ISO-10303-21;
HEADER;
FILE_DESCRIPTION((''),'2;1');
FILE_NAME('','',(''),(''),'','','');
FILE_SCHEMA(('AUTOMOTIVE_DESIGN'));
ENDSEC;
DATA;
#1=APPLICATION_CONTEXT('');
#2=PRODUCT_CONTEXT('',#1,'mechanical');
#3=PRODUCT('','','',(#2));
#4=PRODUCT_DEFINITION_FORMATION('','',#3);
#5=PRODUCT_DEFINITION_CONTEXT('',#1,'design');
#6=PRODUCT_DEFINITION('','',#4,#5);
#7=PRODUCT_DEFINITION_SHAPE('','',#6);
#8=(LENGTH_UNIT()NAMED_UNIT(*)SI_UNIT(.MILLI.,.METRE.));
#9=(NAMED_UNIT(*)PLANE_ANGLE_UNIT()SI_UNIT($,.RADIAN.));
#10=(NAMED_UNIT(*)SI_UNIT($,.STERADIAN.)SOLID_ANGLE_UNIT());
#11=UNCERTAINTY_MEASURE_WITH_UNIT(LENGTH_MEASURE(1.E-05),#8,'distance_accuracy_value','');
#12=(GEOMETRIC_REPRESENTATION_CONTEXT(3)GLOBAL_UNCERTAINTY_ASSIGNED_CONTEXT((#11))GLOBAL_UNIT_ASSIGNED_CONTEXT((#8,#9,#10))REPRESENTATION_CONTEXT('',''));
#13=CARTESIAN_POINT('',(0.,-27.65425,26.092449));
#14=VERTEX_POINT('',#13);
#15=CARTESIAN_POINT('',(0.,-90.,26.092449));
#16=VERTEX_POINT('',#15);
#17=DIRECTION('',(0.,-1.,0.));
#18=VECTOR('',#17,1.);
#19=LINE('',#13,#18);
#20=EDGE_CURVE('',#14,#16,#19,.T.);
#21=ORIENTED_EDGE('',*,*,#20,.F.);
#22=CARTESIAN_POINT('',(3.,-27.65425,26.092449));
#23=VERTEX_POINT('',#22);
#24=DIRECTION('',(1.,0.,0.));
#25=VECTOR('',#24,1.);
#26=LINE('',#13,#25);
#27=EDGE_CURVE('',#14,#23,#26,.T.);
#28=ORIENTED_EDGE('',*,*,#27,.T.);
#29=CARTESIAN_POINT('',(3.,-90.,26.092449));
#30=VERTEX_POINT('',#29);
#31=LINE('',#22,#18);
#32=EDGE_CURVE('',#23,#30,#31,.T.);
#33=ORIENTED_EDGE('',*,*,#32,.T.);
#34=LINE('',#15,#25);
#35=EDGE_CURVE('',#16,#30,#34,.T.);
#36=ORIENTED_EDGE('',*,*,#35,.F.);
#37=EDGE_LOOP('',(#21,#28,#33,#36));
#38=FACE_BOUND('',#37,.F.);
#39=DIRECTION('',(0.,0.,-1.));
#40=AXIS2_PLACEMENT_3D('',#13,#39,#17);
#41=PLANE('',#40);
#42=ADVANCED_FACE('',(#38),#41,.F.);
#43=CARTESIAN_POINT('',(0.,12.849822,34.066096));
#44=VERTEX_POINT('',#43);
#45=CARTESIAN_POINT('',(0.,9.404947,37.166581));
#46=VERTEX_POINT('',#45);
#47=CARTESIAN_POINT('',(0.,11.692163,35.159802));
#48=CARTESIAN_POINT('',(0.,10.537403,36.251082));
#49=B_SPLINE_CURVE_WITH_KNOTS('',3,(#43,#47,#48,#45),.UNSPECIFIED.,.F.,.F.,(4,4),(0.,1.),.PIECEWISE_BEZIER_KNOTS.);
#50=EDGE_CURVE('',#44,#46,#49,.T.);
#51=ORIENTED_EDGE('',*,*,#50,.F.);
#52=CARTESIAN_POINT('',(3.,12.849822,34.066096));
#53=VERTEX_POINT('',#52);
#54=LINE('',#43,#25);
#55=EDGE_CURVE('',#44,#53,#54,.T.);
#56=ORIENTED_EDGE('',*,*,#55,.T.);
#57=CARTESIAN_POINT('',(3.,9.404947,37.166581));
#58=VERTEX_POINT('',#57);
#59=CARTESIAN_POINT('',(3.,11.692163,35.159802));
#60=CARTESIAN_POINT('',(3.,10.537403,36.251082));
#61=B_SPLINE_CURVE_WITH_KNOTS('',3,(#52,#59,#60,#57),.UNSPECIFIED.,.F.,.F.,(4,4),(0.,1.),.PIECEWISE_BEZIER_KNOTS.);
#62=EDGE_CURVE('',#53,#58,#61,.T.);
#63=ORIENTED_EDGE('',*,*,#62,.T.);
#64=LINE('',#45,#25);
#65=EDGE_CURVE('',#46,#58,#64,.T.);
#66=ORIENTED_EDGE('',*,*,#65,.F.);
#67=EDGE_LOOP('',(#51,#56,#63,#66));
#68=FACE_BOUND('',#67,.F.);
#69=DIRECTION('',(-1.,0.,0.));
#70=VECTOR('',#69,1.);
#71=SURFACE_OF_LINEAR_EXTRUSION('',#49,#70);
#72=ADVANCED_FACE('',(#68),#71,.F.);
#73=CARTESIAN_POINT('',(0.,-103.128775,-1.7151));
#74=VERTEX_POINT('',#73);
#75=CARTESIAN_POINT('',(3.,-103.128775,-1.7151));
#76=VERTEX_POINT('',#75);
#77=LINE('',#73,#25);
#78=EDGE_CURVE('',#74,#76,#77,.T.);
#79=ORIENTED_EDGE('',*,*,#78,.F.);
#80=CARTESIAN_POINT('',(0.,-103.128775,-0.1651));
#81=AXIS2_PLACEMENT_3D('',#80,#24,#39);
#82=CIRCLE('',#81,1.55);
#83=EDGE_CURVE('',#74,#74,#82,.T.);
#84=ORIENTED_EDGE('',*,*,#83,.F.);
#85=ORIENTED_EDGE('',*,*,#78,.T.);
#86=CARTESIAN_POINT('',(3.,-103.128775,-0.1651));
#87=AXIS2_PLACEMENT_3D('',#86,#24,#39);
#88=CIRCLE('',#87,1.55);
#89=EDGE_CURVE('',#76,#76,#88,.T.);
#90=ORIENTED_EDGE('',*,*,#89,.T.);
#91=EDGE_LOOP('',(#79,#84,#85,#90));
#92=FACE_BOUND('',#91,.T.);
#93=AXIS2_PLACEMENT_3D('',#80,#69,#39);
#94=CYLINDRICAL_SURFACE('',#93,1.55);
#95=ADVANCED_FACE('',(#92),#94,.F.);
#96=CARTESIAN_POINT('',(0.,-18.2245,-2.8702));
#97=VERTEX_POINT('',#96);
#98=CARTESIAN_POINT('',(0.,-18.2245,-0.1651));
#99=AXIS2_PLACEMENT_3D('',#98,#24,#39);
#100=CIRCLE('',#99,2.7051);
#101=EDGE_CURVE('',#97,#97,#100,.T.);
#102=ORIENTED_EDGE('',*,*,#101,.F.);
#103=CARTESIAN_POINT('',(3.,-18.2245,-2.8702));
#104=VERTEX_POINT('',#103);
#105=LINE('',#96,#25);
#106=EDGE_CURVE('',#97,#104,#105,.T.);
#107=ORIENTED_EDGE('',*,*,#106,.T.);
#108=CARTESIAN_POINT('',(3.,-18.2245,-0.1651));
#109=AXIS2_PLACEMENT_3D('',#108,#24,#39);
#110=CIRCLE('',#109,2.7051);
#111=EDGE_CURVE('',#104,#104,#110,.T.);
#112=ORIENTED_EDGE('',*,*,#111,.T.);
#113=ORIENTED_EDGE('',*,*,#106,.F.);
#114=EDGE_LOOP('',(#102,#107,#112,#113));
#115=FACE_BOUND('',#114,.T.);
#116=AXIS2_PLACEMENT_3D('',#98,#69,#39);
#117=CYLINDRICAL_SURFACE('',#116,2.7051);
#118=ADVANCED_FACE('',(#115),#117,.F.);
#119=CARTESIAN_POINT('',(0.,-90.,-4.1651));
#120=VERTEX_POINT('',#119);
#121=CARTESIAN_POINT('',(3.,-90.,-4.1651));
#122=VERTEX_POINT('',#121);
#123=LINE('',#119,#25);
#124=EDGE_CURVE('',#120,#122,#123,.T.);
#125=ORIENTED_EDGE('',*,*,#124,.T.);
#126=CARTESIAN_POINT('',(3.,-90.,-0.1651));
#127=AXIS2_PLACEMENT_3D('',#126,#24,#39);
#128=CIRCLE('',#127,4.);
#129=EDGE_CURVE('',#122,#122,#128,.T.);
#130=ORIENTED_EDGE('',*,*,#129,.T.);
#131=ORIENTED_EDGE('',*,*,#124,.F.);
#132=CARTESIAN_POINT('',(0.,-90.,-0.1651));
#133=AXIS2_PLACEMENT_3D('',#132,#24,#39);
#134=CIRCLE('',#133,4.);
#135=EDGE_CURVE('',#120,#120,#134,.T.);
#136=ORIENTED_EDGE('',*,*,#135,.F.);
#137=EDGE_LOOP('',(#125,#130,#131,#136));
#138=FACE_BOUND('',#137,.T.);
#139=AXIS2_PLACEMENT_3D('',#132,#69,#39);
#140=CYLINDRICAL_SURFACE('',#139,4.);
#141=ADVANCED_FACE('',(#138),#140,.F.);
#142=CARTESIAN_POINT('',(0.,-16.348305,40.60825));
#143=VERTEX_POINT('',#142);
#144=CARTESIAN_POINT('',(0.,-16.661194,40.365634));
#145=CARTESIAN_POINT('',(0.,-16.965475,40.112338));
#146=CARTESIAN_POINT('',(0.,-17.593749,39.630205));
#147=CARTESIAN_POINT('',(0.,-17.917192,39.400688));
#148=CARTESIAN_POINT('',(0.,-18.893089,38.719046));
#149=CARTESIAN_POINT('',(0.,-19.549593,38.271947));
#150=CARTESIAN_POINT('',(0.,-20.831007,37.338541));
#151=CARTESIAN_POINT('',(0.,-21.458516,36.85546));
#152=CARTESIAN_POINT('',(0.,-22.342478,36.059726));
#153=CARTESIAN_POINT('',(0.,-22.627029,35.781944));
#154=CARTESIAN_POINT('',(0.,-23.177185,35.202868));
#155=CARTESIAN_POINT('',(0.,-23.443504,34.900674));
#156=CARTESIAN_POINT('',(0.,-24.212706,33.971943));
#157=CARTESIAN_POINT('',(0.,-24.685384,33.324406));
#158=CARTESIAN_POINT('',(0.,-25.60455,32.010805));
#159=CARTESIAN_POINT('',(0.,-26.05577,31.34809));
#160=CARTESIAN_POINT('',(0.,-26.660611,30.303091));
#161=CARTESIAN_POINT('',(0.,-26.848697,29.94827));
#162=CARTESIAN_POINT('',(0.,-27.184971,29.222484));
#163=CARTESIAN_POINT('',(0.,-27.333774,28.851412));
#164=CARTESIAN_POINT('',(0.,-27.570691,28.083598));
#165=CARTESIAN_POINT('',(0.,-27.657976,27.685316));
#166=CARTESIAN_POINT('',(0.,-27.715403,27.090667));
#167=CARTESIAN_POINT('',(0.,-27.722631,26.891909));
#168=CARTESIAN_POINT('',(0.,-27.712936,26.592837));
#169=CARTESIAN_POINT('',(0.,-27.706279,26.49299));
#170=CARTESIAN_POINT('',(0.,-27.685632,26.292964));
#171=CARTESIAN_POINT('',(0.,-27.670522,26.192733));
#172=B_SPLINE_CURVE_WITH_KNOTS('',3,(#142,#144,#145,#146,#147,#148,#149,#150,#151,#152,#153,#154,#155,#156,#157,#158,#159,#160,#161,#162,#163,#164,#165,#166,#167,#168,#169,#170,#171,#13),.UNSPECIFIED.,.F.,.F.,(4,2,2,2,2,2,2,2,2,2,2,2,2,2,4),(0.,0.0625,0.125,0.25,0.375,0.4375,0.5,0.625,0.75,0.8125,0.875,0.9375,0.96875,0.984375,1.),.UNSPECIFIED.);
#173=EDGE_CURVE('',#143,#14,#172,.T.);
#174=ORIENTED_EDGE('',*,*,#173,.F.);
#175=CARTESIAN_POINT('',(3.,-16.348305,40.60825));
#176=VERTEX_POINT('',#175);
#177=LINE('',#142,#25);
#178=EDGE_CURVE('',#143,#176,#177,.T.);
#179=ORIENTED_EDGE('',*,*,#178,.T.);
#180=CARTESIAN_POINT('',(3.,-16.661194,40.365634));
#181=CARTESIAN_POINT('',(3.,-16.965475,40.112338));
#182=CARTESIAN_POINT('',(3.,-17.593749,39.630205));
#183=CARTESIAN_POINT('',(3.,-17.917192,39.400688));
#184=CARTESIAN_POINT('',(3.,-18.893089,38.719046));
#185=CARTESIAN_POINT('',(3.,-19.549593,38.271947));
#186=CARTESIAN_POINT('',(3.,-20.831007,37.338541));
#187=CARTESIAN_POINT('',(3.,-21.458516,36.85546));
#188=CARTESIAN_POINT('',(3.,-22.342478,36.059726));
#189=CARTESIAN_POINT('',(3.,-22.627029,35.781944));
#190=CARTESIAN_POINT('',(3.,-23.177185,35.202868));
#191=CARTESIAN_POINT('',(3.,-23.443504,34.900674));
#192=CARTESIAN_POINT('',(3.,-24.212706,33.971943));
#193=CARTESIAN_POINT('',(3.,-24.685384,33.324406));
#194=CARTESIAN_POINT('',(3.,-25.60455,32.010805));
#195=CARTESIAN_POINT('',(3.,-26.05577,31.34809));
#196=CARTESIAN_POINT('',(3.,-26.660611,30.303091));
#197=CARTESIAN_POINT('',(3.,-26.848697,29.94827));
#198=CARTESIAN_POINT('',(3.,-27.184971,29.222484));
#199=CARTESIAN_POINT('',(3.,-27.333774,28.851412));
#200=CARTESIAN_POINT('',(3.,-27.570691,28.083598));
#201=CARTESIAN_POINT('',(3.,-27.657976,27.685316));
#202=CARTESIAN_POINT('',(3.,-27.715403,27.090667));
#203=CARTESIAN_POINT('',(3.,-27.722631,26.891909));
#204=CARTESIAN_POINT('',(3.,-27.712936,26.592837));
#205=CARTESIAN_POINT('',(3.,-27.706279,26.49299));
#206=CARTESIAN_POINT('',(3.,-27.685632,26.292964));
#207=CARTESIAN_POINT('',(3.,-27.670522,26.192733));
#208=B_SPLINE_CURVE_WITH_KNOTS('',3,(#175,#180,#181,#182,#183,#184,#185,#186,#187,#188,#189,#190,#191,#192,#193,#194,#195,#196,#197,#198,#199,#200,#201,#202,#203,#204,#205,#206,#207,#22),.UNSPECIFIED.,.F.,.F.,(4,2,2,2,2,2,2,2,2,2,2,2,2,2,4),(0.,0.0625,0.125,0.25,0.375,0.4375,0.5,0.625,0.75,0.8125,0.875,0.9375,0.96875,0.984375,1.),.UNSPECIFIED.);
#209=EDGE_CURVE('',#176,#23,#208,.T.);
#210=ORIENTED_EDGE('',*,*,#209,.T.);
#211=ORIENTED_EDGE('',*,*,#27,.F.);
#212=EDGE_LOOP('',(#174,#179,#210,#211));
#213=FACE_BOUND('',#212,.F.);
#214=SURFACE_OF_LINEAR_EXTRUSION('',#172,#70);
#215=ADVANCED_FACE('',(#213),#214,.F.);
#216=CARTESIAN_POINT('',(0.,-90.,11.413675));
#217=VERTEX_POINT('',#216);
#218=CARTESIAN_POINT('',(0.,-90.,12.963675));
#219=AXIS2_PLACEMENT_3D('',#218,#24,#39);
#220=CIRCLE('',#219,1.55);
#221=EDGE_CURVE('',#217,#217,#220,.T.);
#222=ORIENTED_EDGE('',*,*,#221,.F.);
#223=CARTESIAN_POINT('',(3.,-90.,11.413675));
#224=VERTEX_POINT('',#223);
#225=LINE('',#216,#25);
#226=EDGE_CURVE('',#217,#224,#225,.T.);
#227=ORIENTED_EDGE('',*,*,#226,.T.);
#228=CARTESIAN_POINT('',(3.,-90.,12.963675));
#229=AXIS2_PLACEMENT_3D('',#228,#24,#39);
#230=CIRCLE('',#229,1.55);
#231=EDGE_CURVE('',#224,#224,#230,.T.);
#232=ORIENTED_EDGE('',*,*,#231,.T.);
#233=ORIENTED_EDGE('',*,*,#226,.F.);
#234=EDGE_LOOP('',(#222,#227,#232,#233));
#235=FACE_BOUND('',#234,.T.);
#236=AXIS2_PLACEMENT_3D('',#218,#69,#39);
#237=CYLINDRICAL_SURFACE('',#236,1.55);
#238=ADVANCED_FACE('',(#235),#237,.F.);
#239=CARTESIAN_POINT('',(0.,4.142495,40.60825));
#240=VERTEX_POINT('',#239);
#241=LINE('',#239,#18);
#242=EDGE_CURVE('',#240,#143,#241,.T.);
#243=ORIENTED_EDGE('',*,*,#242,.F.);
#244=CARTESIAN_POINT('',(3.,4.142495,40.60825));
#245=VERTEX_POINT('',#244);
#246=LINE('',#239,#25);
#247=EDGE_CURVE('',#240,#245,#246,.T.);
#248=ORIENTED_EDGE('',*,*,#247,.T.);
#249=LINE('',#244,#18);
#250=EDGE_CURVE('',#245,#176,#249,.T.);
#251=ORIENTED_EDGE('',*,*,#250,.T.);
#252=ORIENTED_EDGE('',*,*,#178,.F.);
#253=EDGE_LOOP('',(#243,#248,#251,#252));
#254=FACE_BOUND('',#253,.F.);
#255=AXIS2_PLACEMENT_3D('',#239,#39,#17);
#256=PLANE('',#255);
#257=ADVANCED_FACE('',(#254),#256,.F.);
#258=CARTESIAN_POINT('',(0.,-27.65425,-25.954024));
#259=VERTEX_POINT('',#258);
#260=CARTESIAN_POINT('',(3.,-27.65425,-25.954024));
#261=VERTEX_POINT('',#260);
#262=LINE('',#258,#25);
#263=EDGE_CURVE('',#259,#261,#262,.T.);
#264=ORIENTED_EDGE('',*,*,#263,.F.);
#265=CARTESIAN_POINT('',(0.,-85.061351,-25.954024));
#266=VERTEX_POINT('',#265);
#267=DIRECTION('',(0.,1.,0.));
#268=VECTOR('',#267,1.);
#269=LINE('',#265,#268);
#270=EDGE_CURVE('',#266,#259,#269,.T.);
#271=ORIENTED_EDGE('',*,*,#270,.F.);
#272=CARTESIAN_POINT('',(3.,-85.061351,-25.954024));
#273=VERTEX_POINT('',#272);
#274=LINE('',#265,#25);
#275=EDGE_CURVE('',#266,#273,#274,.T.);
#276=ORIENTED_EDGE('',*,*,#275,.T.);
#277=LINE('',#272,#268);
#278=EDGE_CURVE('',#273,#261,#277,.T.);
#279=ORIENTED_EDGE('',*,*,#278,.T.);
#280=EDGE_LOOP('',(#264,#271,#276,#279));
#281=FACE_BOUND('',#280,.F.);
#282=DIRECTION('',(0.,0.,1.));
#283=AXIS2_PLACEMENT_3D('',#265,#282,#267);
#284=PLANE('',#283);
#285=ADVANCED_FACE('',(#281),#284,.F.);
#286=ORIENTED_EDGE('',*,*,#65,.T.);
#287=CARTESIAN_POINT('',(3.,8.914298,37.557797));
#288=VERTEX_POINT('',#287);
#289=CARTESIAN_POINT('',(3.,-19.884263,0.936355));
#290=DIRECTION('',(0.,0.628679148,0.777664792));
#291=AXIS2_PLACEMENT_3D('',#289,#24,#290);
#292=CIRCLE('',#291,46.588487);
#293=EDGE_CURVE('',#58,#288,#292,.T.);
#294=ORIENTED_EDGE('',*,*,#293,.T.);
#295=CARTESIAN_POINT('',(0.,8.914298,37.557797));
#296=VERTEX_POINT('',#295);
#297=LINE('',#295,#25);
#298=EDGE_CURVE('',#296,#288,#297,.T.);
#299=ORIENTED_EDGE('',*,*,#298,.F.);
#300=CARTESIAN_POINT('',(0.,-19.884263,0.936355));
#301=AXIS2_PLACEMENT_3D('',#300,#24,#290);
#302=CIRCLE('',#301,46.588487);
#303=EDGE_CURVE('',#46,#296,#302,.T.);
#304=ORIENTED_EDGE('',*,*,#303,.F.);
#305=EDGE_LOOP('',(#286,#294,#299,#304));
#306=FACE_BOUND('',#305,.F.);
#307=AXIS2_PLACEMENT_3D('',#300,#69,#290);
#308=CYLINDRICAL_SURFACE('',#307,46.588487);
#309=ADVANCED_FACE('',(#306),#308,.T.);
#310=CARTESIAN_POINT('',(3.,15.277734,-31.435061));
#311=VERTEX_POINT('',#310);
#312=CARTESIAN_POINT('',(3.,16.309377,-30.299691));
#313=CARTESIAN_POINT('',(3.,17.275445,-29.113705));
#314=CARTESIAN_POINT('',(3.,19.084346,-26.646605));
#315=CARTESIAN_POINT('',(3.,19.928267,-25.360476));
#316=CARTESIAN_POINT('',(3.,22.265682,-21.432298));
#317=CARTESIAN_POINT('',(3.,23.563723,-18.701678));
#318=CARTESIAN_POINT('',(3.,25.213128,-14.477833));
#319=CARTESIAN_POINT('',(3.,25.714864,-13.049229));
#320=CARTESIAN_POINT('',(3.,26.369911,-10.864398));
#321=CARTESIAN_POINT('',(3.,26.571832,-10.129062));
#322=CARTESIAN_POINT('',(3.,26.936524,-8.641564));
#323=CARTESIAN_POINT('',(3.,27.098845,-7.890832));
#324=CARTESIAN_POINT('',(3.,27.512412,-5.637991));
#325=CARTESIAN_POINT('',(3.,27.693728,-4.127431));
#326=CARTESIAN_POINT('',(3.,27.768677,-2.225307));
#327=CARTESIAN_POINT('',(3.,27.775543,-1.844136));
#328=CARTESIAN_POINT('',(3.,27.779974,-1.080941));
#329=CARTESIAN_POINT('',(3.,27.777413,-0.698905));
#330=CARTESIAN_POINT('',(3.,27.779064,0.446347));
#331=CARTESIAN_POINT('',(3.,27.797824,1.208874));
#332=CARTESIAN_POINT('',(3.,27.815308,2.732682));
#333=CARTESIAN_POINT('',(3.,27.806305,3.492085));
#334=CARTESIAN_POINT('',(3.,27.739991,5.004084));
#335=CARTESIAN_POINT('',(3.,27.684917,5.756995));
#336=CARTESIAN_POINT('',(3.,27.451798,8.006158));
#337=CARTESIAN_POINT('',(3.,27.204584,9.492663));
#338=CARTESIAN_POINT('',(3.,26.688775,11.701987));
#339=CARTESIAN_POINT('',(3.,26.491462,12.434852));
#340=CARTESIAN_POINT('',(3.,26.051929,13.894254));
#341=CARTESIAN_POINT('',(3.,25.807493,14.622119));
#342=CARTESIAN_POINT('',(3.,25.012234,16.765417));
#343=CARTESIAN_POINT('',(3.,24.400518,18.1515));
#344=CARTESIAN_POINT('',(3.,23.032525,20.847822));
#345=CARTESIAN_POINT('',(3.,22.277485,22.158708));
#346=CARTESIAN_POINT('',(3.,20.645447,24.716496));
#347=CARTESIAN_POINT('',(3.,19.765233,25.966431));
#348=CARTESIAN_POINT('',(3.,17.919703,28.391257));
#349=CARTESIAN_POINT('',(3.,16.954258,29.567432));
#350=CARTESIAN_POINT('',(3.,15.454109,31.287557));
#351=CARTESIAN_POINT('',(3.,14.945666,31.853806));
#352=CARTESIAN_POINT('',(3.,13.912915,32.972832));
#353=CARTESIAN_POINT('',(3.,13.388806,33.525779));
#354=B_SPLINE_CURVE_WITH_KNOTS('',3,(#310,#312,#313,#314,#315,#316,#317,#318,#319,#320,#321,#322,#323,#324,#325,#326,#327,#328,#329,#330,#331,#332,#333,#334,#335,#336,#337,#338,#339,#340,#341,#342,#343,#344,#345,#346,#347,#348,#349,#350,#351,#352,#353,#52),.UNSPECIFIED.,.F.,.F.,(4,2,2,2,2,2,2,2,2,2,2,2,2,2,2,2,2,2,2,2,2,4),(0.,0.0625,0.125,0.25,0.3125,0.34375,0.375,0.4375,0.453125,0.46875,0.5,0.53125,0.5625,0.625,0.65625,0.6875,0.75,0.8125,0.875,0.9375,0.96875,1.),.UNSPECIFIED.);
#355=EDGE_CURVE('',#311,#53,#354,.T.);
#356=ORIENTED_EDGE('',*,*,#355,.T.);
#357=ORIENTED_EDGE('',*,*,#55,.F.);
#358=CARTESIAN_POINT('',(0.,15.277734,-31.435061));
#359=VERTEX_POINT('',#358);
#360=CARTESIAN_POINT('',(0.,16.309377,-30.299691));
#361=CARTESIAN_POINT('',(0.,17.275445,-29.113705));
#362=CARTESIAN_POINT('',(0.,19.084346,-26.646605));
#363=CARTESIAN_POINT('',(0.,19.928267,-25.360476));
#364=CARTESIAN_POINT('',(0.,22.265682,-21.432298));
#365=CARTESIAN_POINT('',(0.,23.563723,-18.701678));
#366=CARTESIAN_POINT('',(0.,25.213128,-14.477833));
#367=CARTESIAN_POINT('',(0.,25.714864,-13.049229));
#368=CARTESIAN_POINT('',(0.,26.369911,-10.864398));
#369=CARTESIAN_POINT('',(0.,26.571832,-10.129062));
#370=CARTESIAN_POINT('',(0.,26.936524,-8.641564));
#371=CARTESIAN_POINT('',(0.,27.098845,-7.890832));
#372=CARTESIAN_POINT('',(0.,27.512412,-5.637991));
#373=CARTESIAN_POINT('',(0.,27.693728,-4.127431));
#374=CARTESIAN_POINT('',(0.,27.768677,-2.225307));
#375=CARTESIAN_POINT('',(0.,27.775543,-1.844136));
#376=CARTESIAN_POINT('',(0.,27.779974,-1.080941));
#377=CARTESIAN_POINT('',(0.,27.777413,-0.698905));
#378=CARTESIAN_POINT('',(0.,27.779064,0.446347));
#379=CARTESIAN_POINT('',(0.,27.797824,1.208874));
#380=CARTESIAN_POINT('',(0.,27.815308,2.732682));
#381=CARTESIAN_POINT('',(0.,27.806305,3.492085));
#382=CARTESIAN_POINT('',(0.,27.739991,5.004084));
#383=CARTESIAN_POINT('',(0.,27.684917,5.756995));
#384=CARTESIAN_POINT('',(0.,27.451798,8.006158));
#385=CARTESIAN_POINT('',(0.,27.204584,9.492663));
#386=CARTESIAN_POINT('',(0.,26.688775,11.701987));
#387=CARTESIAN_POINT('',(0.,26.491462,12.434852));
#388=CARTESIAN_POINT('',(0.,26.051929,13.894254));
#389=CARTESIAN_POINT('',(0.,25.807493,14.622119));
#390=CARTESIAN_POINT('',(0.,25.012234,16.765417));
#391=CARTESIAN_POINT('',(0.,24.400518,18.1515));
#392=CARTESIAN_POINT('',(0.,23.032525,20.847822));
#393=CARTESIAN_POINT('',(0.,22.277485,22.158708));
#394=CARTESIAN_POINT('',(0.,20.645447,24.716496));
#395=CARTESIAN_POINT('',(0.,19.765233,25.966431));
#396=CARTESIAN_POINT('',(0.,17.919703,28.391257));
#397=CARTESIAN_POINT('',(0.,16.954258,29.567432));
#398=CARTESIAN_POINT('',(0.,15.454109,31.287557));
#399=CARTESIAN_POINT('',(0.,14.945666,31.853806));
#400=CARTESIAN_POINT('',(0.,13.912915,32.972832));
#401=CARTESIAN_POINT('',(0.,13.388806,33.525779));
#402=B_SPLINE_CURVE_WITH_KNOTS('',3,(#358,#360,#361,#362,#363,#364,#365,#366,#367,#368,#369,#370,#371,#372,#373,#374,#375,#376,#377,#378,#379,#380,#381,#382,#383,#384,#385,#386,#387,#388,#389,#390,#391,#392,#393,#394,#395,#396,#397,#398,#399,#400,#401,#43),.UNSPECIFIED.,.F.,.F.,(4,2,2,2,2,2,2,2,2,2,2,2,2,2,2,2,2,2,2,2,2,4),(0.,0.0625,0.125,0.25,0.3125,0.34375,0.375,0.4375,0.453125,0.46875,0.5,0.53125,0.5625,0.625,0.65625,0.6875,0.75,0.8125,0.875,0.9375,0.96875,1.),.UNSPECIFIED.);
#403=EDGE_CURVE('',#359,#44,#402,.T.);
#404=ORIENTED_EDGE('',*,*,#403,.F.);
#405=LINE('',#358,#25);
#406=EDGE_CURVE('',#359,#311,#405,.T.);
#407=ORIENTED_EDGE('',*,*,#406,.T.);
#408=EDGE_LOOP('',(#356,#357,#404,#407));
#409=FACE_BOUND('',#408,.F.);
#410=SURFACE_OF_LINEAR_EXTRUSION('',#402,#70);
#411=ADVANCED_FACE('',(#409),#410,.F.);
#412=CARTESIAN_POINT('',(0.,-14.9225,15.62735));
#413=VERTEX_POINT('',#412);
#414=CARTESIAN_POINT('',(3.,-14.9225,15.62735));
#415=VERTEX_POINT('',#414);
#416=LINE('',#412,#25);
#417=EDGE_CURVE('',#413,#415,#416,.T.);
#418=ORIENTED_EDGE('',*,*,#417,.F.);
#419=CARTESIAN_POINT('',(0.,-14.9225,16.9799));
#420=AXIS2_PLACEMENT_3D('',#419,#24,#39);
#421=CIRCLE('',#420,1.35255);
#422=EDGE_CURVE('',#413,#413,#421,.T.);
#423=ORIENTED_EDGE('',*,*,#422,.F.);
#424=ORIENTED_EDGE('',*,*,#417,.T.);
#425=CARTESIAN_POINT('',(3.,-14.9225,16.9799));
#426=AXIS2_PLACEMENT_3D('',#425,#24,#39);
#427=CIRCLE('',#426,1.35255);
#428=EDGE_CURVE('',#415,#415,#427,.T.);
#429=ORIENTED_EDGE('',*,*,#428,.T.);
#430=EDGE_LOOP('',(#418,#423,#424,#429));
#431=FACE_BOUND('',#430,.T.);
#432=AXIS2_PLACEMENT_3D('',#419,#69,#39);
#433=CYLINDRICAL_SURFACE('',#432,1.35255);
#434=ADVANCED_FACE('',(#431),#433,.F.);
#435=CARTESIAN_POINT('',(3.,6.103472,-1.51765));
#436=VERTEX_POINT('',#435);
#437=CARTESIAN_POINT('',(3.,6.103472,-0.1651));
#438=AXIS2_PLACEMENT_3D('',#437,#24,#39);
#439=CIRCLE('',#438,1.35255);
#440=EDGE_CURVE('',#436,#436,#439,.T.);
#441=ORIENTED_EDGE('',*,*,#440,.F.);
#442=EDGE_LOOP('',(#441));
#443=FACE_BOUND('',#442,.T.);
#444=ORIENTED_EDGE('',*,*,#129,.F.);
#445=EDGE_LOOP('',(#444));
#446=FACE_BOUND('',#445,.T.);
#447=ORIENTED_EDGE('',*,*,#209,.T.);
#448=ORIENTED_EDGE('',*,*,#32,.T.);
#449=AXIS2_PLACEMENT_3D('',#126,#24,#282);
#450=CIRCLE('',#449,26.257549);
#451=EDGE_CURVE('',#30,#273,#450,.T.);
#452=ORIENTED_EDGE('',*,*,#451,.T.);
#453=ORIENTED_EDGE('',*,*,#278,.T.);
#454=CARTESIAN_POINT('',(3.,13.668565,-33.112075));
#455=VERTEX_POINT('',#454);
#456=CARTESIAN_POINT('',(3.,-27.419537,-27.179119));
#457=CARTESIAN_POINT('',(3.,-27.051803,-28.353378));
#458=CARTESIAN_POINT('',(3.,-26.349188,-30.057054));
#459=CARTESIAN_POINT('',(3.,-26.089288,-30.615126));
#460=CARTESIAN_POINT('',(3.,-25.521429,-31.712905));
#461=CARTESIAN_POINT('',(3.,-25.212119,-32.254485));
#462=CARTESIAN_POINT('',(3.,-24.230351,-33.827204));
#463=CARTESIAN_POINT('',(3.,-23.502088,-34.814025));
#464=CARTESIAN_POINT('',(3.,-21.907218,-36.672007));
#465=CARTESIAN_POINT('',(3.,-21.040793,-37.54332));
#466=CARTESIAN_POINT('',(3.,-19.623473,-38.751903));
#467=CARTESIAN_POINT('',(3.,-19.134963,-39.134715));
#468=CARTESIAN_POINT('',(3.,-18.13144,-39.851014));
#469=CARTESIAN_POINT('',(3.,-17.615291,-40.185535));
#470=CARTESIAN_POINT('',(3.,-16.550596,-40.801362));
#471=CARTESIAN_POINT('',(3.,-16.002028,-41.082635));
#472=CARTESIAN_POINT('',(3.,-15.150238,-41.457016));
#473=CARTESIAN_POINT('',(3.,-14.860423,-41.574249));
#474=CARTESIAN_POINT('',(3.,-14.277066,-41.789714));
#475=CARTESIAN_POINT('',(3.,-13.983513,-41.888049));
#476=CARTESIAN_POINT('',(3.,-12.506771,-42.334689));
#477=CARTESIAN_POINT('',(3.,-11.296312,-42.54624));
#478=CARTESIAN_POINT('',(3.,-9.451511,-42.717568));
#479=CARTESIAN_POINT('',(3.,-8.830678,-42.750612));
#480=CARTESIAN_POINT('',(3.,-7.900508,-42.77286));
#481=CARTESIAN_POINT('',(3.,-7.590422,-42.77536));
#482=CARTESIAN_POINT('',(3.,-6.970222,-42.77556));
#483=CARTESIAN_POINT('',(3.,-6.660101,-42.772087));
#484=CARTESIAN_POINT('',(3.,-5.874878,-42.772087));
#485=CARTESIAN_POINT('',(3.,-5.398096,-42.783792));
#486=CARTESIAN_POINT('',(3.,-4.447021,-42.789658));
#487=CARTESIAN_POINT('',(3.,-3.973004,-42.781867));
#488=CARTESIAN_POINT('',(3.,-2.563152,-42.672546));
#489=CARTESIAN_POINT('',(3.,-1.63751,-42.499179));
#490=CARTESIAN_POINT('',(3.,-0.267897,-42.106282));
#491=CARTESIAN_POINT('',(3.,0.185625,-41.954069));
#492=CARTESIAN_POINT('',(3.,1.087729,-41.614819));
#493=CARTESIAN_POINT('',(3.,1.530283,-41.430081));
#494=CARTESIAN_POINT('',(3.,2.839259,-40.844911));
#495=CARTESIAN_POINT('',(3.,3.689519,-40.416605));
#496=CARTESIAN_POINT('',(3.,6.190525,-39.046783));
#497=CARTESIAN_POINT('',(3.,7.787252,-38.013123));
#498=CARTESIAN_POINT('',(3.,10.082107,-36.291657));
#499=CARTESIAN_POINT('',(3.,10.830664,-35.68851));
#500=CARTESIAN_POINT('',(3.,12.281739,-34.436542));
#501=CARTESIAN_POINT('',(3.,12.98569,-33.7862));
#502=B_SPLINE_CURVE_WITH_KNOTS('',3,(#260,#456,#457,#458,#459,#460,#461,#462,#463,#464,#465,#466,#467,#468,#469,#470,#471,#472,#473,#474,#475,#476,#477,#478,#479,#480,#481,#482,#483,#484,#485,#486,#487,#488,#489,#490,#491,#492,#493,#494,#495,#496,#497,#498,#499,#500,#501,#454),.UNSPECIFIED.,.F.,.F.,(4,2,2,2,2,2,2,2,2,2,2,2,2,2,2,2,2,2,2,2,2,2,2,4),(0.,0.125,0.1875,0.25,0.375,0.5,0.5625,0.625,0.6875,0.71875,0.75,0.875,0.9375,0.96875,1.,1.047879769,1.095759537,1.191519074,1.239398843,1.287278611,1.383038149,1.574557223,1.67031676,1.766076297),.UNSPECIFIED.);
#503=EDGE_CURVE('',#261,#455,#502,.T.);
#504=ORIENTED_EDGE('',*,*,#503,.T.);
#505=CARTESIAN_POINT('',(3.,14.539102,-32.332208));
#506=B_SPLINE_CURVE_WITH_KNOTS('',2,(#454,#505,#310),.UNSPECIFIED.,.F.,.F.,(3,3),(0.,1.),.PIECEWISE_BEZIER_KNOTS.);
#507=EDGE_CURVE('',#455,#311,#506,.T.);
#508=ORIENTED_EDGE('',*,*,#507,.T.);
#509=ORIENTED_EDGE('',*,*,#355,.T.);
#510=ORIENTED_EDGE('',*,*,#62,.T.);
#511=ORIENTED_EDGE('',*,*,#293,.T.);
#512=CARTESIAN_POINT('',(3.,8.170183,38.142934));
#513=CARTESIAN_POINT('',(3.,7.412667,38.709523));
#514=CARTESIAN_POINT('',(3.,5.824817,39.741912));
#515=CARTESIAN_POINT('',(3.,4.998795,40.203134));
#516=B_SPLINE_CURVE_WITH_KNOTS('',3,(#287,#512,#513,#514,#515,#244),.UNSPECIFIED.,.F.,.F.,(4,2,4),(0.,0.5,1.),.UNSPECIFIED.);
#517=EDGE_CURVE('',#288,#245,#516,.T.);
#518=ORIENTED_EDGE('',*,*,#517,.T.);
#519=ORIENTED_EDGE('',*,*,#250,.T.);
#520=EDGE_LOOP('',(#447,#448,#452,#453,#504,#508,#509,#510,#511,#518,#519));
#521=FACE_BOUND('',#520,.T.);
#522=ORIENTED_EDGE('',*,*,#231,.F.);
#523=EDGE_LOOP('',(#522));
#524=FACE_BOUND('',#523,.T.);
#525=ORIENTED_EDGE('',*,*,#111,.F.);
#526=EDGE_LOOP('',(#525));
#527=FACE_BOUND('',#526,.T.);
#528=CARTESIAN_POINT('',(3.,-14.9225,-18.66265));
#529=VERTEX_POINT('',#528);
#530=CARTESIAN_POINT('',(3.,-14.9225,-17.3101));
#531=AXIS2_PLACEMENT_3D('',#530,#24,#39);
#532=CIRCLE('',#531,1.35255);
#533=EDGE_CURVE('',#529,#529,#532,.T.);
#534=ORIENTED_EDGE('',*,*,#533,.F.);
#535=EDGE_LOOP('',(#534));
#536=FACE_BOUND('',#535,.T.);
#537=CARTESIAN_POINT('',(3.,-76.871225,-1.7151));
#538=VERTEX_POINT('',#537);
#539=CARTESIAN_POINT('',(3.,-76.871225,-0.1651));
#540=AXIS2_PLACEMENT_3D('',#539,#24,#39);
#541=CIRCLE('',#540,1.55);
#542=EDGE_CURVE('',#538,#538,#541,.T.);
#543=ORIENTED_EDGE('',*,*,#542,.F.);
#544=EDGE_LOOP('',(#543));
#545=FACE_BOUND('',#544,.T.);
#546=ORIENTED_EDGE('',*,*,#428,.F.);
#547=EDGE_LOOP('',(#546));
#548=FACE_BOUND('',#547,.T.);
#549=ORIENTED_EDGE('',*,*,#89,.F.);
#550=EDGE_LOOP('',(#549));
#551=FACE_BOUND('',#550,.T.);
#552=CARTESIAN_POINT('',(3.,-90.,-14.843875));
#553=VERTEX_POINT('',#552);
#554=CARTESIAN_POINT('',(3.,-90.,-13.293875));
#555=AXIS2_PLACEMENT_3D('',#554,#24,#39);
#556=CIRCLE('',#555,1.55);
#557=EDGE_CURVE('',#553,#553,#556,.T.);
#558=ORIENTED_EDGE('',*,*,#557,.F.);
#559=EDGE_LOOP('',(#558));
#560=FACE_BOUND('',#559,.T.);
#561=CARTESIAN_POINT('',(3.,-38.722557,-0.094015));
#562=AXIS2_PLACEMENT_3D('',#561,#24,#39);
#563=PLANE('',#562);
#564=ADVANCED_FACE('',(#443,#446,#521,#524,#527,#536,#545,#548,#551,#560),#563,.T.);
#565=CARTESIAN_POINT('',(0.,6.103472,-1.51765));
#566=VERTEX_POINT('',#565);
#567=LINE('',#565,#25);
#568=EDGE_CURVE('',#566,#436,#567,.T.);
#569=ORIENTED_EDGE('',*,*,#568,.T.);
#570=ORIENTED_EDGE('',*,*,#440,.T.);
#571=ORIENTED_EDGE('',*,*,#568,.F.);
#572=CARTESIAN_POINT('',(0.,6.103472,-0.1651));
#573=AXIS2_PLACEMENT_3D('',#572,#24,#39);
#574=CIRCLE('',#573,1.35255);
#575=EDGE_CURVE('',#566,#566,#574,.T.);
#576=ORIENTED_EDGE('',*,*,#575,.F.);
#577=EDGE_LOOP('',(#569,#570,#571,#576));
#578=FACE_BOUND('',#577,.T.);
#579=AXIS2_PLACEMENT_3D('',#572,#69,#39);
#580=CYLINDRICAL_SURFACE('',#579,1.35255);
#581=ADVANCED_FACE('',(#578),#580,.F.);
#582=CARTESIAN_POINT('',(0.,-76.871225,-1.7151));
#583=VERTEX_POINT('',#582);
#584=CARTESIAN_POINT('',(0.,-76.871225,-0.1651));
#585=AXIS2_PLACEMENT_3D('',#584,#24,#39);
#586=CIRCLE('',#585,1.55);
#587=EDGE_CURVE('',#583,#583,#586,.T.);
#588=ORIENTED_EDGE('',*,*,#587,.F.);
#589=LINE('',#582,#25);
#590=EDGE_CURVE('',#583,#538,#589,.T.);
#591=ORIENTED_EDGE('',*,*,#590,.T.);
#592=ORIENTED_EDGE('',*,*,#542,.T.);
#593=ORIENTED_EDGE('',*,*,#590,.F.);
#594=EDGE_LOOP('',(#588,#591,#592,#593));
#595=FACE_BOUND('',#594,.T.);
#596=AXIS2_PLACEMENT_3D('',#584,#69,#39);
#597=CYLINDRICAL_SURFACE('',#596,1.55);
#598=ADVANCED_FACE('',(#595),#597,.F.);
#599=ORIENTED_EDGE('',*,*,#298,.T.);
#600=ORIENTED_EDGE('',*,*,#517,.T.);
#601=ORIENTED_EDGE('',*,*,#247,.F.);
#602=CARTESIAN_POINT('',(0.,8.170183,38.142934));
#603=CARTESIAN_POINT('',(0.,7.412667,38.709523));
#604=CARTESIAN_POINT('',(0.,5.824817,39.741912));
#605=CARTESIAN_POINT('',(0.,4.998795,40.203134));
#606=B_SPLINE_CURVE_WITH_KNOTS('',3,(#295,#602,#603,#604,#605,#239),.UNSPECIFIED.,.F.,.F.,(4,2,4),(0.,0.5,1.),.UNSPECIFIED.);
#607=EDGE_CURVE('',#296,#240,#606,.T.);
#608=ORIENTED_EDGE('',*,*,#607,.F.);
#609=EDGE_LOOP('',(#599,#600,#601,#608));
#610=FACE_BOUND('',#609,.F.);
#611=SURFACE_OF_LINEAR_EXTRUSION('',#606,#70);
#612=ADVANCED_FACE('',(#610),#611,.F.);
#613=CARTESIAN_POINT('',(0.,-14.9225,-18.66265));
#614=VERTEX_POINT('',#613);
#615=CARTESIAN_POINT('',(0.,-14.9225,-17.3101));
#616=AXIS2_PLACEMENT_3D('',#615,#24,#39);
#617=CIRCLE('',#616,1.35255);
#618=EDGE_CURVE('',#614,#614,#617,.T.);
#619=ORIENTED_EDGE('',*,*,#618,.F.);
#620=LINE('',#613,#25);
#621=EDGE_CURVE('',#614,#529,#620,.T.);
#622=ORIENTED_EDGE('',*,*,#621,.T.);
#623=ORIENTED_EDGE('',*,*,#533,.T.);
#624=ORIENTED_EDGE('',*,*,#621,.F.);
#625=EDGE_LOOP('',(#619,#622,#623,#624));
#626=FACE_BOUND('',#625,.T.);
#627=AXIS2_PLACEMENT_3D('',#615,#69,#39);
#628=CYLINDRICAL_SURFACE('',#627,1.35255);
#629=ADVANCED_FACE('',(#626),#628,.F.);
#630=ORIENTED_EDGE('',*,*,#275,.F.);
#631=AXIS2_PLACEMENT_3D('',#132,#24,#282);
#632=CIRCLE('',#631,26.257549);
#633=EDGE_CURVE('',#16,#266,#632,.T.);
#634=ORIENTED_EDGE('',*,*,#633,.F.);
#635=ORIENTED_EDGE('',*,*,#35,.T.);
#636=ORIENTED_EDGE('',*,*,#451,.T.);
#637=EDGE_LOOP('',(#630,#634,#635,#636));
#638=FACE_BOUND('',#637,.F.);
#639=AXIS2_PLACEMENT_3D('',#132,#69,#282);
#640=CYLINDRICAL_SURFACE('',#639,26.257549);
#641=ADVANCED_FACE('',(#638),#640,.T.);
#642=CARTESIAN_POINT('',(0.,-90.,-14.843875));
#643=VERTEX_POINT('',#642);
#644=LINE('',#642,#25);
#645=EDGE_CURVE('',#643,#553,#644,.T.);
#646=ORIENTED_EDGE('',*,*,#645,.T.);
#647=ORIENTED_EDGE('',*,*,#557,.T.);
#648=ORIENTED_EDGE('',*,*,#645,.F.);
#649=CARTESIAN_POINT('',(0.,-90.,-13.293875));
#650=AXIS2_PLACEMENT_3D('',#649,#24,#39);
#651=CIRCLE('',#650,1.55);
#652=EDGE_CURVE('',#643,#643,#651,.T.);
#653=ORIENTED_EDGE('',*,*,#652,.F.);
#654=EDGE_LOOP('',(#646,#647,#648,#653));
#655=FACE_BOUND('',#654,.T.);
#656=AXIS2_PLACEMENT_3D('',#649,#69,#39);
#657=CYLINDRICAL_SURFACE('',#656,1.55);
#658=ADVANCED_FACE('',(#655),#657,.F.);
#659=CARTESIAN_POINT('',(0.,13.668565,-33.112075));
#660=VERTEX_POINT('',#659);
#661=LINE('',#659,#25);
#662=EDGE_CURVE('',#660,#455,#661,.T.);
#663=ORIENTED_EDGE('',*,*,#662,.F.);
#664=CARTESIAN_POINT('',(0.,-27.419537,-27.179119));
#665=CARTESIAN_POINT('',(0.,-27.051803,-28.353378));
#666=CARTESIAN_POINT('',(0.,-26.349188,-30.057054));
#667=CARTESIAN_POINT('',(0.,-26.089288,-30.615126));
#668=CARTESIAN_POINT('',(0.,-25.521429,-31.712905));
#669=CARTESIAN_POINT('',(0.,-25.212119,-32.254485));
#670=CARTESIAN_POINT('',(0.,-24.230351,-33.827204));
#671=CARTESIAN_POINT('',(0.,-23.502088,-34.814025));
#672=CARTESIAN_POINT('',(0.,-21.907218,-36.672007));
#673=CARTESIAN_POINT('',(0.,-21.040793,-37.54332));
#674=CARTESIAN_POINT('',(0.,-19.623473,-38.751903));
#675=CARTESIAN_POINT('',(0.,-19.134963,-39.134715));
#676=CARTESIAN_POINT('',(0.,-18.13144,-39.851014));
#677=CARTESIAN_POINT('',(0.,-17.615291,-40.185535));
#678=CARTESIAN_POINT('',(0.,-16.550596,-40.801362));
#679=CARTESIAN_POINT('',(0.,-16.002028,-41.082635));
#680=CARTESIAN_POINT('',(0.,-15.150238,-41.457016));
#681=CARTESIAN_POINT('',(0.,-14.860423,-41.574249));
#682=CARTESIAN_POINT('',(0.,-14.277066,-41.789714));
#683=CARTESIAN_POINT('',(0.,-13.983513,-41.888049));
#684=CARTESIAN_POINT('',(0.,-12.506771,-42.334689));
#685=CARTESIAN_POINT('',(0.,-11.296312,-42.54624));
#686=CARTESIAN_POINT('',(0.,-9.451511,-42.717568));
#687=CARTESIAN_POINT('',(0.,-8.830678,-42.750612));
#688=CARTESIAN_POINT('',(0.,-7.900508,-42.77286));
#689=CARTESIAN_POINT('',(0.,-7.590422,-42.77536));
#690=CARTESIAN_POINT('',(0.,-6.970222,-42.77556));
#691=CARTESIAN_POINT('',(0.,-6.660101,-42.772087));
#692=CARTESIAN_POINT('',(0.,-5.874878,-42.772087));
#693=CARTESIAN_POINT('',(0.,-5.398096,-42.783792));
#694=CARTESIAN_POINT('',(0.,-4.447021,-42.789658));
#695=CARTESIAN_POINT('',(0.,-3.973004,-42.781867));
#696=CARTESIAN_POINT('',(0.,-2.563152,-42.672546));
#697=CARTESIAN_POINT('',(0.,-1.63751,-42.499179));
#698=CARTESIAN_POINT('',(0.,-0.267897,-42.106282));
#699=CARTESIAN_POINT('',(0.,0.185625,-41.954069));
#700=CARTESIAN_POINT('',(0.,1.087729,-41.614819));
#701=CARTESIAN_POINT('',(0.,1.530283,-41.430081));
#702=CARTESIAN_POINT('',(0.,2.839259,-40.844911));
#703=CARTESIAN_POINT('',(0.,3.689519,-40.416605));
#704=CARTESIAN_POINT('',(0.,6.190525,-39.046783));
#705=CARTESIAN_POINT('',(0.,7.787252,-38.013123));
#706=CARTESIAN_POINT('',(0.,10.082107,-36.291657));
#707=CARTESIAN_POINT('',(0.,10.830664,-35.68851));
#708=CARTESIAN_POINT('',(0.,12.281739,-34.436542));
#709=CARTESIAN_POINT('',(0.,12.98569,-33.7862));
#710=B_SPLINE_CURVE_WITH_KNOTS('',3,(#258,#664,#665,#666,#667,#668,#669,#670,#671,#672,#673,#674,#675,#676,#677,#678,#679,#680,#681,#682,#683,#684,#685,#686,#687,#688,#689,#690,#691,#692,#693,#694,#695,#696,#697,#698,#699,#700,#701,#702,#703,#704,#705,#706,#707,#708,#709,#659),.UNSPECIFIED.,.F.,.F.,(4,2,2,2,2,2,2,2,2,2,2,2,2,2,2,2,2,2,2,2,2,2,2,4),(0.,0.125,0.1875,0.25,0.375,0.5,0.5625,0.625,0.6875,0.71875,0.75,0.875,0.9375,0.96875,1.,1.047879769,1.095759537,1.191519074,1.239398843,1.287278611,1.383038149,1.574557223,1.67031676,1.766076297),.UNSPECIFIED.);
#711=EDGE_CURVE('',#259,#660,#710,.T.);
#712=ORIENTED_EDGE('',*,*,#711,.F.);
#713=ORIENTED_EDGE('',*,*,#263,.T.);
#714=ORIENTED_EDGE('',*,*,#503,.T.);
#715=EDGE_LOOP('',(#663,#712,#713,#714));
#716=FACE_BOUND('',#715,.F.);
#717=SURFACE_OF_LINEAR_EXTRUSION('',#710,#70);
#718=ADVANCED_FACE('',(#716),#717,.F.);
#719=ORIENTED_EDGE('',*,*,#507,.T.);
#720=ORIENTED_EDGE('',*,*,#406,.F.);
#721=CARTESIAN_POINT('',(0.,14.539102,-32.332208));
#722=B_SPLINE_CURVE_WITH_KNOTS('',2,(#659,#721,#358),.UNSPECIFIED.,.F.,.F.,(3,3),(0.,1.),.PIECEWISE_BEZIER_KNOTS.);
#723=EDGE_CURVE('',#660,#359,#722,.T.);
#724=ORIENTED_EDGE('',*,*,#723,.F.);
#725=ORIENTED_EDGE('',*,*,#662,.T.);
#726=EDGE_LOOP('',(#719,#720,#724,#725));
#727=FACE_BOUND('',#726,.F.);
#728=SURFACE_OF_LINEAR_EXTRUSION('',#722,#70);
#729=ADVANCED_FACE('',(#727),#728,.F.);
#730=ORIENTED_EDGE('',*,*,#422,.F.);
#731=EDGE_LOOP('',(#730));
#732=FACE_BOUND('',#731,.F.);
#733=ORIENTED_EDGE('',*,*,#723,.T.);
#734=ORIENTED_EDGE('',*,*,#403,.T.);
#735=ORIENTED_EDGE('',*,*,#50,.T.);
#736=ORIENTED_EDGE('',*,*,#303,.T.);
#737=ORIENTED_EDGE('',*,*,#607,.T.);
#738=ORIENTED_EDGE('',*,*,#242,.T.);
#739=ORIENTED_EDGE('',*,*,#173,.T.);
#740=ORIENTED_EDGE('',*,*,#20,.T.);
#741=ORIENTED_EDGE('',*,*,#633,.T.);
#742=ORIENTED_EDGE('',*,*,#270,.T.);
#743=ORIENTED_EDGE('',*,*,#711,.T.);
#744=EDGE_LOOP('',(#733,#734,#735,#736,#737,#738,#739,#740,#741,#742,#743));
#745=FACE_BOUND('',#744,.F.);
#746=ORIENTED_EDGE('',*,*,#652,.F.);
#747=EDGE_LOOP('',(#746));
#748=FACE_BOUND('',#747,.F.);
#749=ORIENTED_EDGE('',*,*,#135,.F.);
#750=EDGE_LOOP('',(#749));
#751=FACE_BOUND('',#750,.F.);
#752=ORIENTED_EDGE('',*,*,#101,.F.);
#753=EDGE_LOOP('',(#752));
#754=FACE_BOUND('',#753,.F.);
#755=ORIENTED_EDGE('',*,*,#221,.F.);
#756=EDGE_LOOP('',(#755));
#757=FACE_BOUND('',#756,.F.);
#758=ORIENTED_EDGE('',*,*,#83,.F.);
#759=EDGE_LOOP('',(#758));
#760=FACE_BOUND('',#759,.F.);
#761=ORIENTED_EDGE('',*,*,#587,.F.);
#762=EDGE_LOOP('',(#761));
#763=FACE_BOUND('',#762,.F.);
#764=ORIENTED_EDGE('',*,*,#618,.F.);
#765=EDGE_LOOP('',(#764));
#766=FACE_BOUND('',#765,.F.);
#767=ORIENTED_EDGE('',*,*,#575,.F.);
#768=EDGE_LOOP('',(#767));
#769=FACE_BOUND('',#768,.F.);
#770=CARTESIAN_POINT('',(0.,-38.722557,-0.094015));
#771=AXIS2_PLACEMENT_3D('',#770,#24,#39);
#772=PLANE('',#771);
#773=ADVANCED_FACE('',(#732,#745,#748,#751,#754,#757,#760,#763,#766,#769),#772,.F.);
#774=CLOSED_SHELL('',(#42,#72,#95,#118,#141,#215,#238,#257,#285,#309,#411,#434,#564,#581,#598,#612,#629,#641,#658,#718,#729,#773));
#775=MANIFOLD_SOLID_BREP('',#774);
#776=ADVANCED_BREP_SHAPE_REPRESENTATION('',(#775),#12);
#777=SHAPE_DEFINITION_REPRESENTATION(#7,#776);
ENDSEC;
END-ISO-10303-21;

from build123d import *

# Parameters (mm, degrees)
ESQUISSE1_R        = 1.55
ESQUISSE1_R_2      = 4
ESQUISSE1_R_3      = 1.35255
ESQUISSE1_R_4      = 2.7051
BOSS_EXTRU_1_DEPTH = 3


with BuildPart() as part:
    # Esquisse1 → Boss.-Extru.1 (new body)
    with BuildSketch(Plane(origin=(0, 0, 0), x_dir=(0, 0, -1), z_dir=(1, 0, 0))):
        with BuildLine():
            Line((-40.60825, -12.7), (-40.60825, -16.144875))
            Line((-40.60825, -16.144875), (-40.60825, -16.348305132))
            add(Edge.make_bspline(
                [(-40.60825, -16.348305132), (-40.365634485, -16.661193605), (-40.112338127, -16.96547542), (-39.63020507, -17.593748723), (-39.400688032, -17.917191992), (-38.719045939, -18.893089111), (-38.271947044, -19.549593057), (-37.338540998, -20.831006808), (-36.855460104, -21.458516341), (-36.059725811, -22.342477591), (-35.781944124, -22.627029047), (-35.202868212, -23.17718548), (-34.900674383, -23.443503751), (-33.971943166, -24.212706181), (-33.324405882, -24.685383849), (-32.010805282, -25.604549776), (-31.348089528, -26.055770333), (-30.303090708, -26.660610546), (-29.948270215, -26.848696892), (-29.222483721, -27.184971005), (-28.851412004, -27.333773538), (-28.083597976, -27.570691368), (-27.685315555, -27.657976057), (-27.090666934, -27.715403346), (-26.891908645, -27.722631025), (-26.592836888, -27.712936491), (-26.492990431, -27.706278992), (-26.292963936, -27.685632014), (-26.192732932, -27.670522326), (-26.092449031, -27.65425)],
                knots=[0, 0, 0, 0, 0.0625, 0.0625, 0.125, 0.125, 0.25, 0.25, 0.375, 0.375, 0.4375, 0.4375, 0.5, 0.5, 0.625, 0.625, 0.75, 0.75, 0.8125, 0.8125, 0.875, 0.875, 0.9375, 0.9375, 0.96875, 0.96875, 0.984375, 0.984375, 1, 1, 1, 1], degree=3))
            Line((-26.092449031, -27.65425), (-26.092449031, -90))
            ThreePointArc((-26.092449031, -90), (2.64551669, -116.14013034), (25.954024412, -85.06135051))
            Line((25.954024412, -85.06135051), (25.954024412, -27.65425))
            add(Edge.make_bspline(
                [(25.954024412, -27.65425), (27.179118802, -27.419536533), (28.353377808, -27.051803075), (30.05705383, -26.34918771), (30.615126485, -26.089288473), (31.712904721, -25.521429223), (32.254485024, -25.212118815), (33.827204106, -24.230350536), (34.814025463, -23.502087852), (36.672007358, -21.907218093), (37.543320305, -21.040793316), (38.751902771, -19.623473398), (39.134714509, -19.134962989), (39.851014333, -18.131439591), (40.185535135, -17.615291382), (40.801362362, -16.550595558), (41.082635497, -16.002027673), (41.457015911, -15.150237789), (41.574249194, -14.86042264), (41.789713906, -14.277065554), (41.888049248, -13.98351322), (42.334688534, -12.506770959), (42.546239761, -11.296312151), (42.717568356, -9.451511475), (42.750611649, -8.83067761), (42.772859866, -7.900507946), (42.775360474, -7.590422151), (42.77555993, -6.970221998), (42.772087252, -6.66010067), (42.772087252, -6.35)],
                knots=[0, 0, 0, 0, 0.125, 0.125, 0.1875, 0.1875, 0.25, 0.25, 0.375, 0.375, 0.5, 0.5, 0.5625, 0.5625, 0.625, 0.625, 0.6875, 0.6875, 0.71875, 0.71875, 0.75, 0.75, 0.875, 0.875, 0.9375, 0.9375, 0.96875, 0.96875, 1, 1, 1, 1], degree=3))
            add(Edge.make_bspline(
                [(42.772087252, -6.35), (42.772087252, -5.874878454), (42.783792207, -5.398095979), (42.789657917, -4.447020546), (42.781867467, -3.973004463), (42.672546396, -2.563152451), (42.499179213, -1.637510108), (42.106282017, -0.267897459), (41.954068536, 0.185625042), (41.614819435, 1.087728793), (41.430081297, 1.530283034), (40.844911495, 2.839259084), (40.416604561, 3.689518781), (39.046783283, 6.190525131), (38.013123304, 7.787251584), (36.291657446, 10.082106977), (35.688509547, 10.830664164), (34.43654182, 12.281738953), (33.786199883, 12.985690235), (33.112075, 13.668565083)],
                knots=[0, 0, 0, 0, 0.0625, 0.0625, 0.125, 0.125, 0.25, 0.25, 0.3125, 0.3125, 0.375, 0.375, 0.5, 0.5, 0.75, 0.75, 0.875, 0.875, 1, 1, 1, 1], degree=3))
            add(Edge.make_bspline(
                [(33.112075, 13.668565083), (32.332207955, 14.539101946), (31.435060987, 15.277734234)],
                knots=[0, 0, 0, 1, 1, 1], degree=2))
            add(Edge.make_bspline(
                [(31.435060987, 15.277734234), (30.299691041, 16.309376592), (29.113704516, 17.275445235), (26.646604831, 19.084346085), (25.360475951, 19.928267183), (21.432297769, 22.265681686), (18.70167828, 23.563722979), (14.477833082, 25.213127628), (13.049229105, 25.71486416), (10.864398428, 26.369911185), (10.129061703, 26.571832136), (8.64156399, 26.936524394), (7.890831572, 27.098844789), (5.637990782, 27.512412208), (4.127431428, 27.693727696), (2.225306731, 27.768676851), (1.844136038, 27.775542931), (1.080940786, 27.779973661), (0.698904769, 27.777413484), (-0.446346689, 27.779064109), (-1.208874123, 27.797823926), (-2.732682239, 27.815308111), (-3.492085471, 27.806304753), (-5.004084105, 27.739990771), (-5.756994671, 27.684916502), (-8.006157922, 27.451797552), (-9.492662784, 27.204583891), (-11.701987236, 26.688775277), (-12.434852331, 26.491461598), (-13.894254142, 26.051929085), (-14.622118919, 25.807493497), (-16.765417144, 25.01223388), (-18.151500369, 24.400517874), (-20.847821735, 23.032525232), (-22.158708475, 22.277484827), (-24.716496252, 20.645447351), (-25.966430559, 19.7652326), (-28.39125747, 17.919703458), (-29.567431908, 16.954258357), (-31.287557173, 15.454109034), (-31.85380584, 14.945666112), (-32.972832423, 13.91291508), (-33.52577931, 13.388805977), (-34.066096443, 12.849822171)],
                knots=[0, 0, 0, 0, 0.0625, 0.0625, 0.125, 0.125, 0.25, 0.25, 0.3125, 0.3125, 0.34375, 0.34375, 0.375, 0.375, 0.4375, 0.4375, 0.453125, 0.453125, 0.46875, 0.46875, 0.5, 0.5, 0.53125, 0.53125, 0.5625, 0.5625, 0.625, 0.625, 0.65625, 0.65625, 0.6875, 0.6875, 0.75, 0.75, 0.8125, 0.8125, 0.875, 0.875, 0.9375, 0.9375, 0.96875, 0.96875, 1, 1, 1, 1], degree=3))
            add(Edge.make_bspline(
                [(-34.066096443, 12.849822171), (-35.159801618, 11.692162737), (-36.251081621, 10.53740284), (-37.166580532, 9.404947171)],
                knots=[0, 0, 0, 0, 1, 1, 1, 1], degree=3))
            ThreePointArc((-37.166580532, 9.404947171), (-37.363014685, 9.160281042), (-37.557796616, 8.914297524))
            add(Edge.make_bspline(
                [(-37.557796616, 8.914297524), (-38.142933539, 8.170182683), (-38.709522845, 7.412667282), (-39.741912272, 5.824816801), (-40.203133529, 4.998794666), (-40.60825, 4.142494902)],
                knots=[0, 0, 0, 0, 0.5, 0.5, 1, 1, 1, 1], degree=3))
            Line((-40.60825, 4.142494902), (-40.60825, -12.7))
        make_face()
        with Locations((0.1651, -103.128774516)):
            Circle(ESQUISSE1_R, mode=Mode.SUBTRACT)
        with Locations((-12.963674516, -90)):
            Circle(ESQUISSE1_R, mode=Mode.SUBTRACT)
        with Locations((0.1651, -90)):
            Circle(ESQUISSE1_R_2, mode=Mode.SUBTRACT)
        with Locations((0.1651, -76.871225484)):
            Circle(ESQUISSE1_R, mode=Mode.SUBTRACT)
        with Locations((13.293874516, -90)):
            Circle(ESQUISSE1_R, mode=Mode.SUBTRACT)
        with Locations((-16.9799, -14.9225)):
            Circle(ESQUISSE1_R_3, mode=Mode.SUBTRACT)
        with Locations((0.1651, -18.2245)):
            Circle(ESQUISSE1_R_4, mode=Mode.SUBTRACT)
        with Locations((0.1651, 6.103472306)):
            Circle(ESQUISSE1_R_3, mode=Mode.SUBTRACT)
        with Locations((17.3101, -14.9225)):
            Circle(ESQUISSE1_R_3, mode=Mode.SUBTRACT)
    extrude(amount=BOSS_EXTRU_1_DEPTH)


solid = part.part
